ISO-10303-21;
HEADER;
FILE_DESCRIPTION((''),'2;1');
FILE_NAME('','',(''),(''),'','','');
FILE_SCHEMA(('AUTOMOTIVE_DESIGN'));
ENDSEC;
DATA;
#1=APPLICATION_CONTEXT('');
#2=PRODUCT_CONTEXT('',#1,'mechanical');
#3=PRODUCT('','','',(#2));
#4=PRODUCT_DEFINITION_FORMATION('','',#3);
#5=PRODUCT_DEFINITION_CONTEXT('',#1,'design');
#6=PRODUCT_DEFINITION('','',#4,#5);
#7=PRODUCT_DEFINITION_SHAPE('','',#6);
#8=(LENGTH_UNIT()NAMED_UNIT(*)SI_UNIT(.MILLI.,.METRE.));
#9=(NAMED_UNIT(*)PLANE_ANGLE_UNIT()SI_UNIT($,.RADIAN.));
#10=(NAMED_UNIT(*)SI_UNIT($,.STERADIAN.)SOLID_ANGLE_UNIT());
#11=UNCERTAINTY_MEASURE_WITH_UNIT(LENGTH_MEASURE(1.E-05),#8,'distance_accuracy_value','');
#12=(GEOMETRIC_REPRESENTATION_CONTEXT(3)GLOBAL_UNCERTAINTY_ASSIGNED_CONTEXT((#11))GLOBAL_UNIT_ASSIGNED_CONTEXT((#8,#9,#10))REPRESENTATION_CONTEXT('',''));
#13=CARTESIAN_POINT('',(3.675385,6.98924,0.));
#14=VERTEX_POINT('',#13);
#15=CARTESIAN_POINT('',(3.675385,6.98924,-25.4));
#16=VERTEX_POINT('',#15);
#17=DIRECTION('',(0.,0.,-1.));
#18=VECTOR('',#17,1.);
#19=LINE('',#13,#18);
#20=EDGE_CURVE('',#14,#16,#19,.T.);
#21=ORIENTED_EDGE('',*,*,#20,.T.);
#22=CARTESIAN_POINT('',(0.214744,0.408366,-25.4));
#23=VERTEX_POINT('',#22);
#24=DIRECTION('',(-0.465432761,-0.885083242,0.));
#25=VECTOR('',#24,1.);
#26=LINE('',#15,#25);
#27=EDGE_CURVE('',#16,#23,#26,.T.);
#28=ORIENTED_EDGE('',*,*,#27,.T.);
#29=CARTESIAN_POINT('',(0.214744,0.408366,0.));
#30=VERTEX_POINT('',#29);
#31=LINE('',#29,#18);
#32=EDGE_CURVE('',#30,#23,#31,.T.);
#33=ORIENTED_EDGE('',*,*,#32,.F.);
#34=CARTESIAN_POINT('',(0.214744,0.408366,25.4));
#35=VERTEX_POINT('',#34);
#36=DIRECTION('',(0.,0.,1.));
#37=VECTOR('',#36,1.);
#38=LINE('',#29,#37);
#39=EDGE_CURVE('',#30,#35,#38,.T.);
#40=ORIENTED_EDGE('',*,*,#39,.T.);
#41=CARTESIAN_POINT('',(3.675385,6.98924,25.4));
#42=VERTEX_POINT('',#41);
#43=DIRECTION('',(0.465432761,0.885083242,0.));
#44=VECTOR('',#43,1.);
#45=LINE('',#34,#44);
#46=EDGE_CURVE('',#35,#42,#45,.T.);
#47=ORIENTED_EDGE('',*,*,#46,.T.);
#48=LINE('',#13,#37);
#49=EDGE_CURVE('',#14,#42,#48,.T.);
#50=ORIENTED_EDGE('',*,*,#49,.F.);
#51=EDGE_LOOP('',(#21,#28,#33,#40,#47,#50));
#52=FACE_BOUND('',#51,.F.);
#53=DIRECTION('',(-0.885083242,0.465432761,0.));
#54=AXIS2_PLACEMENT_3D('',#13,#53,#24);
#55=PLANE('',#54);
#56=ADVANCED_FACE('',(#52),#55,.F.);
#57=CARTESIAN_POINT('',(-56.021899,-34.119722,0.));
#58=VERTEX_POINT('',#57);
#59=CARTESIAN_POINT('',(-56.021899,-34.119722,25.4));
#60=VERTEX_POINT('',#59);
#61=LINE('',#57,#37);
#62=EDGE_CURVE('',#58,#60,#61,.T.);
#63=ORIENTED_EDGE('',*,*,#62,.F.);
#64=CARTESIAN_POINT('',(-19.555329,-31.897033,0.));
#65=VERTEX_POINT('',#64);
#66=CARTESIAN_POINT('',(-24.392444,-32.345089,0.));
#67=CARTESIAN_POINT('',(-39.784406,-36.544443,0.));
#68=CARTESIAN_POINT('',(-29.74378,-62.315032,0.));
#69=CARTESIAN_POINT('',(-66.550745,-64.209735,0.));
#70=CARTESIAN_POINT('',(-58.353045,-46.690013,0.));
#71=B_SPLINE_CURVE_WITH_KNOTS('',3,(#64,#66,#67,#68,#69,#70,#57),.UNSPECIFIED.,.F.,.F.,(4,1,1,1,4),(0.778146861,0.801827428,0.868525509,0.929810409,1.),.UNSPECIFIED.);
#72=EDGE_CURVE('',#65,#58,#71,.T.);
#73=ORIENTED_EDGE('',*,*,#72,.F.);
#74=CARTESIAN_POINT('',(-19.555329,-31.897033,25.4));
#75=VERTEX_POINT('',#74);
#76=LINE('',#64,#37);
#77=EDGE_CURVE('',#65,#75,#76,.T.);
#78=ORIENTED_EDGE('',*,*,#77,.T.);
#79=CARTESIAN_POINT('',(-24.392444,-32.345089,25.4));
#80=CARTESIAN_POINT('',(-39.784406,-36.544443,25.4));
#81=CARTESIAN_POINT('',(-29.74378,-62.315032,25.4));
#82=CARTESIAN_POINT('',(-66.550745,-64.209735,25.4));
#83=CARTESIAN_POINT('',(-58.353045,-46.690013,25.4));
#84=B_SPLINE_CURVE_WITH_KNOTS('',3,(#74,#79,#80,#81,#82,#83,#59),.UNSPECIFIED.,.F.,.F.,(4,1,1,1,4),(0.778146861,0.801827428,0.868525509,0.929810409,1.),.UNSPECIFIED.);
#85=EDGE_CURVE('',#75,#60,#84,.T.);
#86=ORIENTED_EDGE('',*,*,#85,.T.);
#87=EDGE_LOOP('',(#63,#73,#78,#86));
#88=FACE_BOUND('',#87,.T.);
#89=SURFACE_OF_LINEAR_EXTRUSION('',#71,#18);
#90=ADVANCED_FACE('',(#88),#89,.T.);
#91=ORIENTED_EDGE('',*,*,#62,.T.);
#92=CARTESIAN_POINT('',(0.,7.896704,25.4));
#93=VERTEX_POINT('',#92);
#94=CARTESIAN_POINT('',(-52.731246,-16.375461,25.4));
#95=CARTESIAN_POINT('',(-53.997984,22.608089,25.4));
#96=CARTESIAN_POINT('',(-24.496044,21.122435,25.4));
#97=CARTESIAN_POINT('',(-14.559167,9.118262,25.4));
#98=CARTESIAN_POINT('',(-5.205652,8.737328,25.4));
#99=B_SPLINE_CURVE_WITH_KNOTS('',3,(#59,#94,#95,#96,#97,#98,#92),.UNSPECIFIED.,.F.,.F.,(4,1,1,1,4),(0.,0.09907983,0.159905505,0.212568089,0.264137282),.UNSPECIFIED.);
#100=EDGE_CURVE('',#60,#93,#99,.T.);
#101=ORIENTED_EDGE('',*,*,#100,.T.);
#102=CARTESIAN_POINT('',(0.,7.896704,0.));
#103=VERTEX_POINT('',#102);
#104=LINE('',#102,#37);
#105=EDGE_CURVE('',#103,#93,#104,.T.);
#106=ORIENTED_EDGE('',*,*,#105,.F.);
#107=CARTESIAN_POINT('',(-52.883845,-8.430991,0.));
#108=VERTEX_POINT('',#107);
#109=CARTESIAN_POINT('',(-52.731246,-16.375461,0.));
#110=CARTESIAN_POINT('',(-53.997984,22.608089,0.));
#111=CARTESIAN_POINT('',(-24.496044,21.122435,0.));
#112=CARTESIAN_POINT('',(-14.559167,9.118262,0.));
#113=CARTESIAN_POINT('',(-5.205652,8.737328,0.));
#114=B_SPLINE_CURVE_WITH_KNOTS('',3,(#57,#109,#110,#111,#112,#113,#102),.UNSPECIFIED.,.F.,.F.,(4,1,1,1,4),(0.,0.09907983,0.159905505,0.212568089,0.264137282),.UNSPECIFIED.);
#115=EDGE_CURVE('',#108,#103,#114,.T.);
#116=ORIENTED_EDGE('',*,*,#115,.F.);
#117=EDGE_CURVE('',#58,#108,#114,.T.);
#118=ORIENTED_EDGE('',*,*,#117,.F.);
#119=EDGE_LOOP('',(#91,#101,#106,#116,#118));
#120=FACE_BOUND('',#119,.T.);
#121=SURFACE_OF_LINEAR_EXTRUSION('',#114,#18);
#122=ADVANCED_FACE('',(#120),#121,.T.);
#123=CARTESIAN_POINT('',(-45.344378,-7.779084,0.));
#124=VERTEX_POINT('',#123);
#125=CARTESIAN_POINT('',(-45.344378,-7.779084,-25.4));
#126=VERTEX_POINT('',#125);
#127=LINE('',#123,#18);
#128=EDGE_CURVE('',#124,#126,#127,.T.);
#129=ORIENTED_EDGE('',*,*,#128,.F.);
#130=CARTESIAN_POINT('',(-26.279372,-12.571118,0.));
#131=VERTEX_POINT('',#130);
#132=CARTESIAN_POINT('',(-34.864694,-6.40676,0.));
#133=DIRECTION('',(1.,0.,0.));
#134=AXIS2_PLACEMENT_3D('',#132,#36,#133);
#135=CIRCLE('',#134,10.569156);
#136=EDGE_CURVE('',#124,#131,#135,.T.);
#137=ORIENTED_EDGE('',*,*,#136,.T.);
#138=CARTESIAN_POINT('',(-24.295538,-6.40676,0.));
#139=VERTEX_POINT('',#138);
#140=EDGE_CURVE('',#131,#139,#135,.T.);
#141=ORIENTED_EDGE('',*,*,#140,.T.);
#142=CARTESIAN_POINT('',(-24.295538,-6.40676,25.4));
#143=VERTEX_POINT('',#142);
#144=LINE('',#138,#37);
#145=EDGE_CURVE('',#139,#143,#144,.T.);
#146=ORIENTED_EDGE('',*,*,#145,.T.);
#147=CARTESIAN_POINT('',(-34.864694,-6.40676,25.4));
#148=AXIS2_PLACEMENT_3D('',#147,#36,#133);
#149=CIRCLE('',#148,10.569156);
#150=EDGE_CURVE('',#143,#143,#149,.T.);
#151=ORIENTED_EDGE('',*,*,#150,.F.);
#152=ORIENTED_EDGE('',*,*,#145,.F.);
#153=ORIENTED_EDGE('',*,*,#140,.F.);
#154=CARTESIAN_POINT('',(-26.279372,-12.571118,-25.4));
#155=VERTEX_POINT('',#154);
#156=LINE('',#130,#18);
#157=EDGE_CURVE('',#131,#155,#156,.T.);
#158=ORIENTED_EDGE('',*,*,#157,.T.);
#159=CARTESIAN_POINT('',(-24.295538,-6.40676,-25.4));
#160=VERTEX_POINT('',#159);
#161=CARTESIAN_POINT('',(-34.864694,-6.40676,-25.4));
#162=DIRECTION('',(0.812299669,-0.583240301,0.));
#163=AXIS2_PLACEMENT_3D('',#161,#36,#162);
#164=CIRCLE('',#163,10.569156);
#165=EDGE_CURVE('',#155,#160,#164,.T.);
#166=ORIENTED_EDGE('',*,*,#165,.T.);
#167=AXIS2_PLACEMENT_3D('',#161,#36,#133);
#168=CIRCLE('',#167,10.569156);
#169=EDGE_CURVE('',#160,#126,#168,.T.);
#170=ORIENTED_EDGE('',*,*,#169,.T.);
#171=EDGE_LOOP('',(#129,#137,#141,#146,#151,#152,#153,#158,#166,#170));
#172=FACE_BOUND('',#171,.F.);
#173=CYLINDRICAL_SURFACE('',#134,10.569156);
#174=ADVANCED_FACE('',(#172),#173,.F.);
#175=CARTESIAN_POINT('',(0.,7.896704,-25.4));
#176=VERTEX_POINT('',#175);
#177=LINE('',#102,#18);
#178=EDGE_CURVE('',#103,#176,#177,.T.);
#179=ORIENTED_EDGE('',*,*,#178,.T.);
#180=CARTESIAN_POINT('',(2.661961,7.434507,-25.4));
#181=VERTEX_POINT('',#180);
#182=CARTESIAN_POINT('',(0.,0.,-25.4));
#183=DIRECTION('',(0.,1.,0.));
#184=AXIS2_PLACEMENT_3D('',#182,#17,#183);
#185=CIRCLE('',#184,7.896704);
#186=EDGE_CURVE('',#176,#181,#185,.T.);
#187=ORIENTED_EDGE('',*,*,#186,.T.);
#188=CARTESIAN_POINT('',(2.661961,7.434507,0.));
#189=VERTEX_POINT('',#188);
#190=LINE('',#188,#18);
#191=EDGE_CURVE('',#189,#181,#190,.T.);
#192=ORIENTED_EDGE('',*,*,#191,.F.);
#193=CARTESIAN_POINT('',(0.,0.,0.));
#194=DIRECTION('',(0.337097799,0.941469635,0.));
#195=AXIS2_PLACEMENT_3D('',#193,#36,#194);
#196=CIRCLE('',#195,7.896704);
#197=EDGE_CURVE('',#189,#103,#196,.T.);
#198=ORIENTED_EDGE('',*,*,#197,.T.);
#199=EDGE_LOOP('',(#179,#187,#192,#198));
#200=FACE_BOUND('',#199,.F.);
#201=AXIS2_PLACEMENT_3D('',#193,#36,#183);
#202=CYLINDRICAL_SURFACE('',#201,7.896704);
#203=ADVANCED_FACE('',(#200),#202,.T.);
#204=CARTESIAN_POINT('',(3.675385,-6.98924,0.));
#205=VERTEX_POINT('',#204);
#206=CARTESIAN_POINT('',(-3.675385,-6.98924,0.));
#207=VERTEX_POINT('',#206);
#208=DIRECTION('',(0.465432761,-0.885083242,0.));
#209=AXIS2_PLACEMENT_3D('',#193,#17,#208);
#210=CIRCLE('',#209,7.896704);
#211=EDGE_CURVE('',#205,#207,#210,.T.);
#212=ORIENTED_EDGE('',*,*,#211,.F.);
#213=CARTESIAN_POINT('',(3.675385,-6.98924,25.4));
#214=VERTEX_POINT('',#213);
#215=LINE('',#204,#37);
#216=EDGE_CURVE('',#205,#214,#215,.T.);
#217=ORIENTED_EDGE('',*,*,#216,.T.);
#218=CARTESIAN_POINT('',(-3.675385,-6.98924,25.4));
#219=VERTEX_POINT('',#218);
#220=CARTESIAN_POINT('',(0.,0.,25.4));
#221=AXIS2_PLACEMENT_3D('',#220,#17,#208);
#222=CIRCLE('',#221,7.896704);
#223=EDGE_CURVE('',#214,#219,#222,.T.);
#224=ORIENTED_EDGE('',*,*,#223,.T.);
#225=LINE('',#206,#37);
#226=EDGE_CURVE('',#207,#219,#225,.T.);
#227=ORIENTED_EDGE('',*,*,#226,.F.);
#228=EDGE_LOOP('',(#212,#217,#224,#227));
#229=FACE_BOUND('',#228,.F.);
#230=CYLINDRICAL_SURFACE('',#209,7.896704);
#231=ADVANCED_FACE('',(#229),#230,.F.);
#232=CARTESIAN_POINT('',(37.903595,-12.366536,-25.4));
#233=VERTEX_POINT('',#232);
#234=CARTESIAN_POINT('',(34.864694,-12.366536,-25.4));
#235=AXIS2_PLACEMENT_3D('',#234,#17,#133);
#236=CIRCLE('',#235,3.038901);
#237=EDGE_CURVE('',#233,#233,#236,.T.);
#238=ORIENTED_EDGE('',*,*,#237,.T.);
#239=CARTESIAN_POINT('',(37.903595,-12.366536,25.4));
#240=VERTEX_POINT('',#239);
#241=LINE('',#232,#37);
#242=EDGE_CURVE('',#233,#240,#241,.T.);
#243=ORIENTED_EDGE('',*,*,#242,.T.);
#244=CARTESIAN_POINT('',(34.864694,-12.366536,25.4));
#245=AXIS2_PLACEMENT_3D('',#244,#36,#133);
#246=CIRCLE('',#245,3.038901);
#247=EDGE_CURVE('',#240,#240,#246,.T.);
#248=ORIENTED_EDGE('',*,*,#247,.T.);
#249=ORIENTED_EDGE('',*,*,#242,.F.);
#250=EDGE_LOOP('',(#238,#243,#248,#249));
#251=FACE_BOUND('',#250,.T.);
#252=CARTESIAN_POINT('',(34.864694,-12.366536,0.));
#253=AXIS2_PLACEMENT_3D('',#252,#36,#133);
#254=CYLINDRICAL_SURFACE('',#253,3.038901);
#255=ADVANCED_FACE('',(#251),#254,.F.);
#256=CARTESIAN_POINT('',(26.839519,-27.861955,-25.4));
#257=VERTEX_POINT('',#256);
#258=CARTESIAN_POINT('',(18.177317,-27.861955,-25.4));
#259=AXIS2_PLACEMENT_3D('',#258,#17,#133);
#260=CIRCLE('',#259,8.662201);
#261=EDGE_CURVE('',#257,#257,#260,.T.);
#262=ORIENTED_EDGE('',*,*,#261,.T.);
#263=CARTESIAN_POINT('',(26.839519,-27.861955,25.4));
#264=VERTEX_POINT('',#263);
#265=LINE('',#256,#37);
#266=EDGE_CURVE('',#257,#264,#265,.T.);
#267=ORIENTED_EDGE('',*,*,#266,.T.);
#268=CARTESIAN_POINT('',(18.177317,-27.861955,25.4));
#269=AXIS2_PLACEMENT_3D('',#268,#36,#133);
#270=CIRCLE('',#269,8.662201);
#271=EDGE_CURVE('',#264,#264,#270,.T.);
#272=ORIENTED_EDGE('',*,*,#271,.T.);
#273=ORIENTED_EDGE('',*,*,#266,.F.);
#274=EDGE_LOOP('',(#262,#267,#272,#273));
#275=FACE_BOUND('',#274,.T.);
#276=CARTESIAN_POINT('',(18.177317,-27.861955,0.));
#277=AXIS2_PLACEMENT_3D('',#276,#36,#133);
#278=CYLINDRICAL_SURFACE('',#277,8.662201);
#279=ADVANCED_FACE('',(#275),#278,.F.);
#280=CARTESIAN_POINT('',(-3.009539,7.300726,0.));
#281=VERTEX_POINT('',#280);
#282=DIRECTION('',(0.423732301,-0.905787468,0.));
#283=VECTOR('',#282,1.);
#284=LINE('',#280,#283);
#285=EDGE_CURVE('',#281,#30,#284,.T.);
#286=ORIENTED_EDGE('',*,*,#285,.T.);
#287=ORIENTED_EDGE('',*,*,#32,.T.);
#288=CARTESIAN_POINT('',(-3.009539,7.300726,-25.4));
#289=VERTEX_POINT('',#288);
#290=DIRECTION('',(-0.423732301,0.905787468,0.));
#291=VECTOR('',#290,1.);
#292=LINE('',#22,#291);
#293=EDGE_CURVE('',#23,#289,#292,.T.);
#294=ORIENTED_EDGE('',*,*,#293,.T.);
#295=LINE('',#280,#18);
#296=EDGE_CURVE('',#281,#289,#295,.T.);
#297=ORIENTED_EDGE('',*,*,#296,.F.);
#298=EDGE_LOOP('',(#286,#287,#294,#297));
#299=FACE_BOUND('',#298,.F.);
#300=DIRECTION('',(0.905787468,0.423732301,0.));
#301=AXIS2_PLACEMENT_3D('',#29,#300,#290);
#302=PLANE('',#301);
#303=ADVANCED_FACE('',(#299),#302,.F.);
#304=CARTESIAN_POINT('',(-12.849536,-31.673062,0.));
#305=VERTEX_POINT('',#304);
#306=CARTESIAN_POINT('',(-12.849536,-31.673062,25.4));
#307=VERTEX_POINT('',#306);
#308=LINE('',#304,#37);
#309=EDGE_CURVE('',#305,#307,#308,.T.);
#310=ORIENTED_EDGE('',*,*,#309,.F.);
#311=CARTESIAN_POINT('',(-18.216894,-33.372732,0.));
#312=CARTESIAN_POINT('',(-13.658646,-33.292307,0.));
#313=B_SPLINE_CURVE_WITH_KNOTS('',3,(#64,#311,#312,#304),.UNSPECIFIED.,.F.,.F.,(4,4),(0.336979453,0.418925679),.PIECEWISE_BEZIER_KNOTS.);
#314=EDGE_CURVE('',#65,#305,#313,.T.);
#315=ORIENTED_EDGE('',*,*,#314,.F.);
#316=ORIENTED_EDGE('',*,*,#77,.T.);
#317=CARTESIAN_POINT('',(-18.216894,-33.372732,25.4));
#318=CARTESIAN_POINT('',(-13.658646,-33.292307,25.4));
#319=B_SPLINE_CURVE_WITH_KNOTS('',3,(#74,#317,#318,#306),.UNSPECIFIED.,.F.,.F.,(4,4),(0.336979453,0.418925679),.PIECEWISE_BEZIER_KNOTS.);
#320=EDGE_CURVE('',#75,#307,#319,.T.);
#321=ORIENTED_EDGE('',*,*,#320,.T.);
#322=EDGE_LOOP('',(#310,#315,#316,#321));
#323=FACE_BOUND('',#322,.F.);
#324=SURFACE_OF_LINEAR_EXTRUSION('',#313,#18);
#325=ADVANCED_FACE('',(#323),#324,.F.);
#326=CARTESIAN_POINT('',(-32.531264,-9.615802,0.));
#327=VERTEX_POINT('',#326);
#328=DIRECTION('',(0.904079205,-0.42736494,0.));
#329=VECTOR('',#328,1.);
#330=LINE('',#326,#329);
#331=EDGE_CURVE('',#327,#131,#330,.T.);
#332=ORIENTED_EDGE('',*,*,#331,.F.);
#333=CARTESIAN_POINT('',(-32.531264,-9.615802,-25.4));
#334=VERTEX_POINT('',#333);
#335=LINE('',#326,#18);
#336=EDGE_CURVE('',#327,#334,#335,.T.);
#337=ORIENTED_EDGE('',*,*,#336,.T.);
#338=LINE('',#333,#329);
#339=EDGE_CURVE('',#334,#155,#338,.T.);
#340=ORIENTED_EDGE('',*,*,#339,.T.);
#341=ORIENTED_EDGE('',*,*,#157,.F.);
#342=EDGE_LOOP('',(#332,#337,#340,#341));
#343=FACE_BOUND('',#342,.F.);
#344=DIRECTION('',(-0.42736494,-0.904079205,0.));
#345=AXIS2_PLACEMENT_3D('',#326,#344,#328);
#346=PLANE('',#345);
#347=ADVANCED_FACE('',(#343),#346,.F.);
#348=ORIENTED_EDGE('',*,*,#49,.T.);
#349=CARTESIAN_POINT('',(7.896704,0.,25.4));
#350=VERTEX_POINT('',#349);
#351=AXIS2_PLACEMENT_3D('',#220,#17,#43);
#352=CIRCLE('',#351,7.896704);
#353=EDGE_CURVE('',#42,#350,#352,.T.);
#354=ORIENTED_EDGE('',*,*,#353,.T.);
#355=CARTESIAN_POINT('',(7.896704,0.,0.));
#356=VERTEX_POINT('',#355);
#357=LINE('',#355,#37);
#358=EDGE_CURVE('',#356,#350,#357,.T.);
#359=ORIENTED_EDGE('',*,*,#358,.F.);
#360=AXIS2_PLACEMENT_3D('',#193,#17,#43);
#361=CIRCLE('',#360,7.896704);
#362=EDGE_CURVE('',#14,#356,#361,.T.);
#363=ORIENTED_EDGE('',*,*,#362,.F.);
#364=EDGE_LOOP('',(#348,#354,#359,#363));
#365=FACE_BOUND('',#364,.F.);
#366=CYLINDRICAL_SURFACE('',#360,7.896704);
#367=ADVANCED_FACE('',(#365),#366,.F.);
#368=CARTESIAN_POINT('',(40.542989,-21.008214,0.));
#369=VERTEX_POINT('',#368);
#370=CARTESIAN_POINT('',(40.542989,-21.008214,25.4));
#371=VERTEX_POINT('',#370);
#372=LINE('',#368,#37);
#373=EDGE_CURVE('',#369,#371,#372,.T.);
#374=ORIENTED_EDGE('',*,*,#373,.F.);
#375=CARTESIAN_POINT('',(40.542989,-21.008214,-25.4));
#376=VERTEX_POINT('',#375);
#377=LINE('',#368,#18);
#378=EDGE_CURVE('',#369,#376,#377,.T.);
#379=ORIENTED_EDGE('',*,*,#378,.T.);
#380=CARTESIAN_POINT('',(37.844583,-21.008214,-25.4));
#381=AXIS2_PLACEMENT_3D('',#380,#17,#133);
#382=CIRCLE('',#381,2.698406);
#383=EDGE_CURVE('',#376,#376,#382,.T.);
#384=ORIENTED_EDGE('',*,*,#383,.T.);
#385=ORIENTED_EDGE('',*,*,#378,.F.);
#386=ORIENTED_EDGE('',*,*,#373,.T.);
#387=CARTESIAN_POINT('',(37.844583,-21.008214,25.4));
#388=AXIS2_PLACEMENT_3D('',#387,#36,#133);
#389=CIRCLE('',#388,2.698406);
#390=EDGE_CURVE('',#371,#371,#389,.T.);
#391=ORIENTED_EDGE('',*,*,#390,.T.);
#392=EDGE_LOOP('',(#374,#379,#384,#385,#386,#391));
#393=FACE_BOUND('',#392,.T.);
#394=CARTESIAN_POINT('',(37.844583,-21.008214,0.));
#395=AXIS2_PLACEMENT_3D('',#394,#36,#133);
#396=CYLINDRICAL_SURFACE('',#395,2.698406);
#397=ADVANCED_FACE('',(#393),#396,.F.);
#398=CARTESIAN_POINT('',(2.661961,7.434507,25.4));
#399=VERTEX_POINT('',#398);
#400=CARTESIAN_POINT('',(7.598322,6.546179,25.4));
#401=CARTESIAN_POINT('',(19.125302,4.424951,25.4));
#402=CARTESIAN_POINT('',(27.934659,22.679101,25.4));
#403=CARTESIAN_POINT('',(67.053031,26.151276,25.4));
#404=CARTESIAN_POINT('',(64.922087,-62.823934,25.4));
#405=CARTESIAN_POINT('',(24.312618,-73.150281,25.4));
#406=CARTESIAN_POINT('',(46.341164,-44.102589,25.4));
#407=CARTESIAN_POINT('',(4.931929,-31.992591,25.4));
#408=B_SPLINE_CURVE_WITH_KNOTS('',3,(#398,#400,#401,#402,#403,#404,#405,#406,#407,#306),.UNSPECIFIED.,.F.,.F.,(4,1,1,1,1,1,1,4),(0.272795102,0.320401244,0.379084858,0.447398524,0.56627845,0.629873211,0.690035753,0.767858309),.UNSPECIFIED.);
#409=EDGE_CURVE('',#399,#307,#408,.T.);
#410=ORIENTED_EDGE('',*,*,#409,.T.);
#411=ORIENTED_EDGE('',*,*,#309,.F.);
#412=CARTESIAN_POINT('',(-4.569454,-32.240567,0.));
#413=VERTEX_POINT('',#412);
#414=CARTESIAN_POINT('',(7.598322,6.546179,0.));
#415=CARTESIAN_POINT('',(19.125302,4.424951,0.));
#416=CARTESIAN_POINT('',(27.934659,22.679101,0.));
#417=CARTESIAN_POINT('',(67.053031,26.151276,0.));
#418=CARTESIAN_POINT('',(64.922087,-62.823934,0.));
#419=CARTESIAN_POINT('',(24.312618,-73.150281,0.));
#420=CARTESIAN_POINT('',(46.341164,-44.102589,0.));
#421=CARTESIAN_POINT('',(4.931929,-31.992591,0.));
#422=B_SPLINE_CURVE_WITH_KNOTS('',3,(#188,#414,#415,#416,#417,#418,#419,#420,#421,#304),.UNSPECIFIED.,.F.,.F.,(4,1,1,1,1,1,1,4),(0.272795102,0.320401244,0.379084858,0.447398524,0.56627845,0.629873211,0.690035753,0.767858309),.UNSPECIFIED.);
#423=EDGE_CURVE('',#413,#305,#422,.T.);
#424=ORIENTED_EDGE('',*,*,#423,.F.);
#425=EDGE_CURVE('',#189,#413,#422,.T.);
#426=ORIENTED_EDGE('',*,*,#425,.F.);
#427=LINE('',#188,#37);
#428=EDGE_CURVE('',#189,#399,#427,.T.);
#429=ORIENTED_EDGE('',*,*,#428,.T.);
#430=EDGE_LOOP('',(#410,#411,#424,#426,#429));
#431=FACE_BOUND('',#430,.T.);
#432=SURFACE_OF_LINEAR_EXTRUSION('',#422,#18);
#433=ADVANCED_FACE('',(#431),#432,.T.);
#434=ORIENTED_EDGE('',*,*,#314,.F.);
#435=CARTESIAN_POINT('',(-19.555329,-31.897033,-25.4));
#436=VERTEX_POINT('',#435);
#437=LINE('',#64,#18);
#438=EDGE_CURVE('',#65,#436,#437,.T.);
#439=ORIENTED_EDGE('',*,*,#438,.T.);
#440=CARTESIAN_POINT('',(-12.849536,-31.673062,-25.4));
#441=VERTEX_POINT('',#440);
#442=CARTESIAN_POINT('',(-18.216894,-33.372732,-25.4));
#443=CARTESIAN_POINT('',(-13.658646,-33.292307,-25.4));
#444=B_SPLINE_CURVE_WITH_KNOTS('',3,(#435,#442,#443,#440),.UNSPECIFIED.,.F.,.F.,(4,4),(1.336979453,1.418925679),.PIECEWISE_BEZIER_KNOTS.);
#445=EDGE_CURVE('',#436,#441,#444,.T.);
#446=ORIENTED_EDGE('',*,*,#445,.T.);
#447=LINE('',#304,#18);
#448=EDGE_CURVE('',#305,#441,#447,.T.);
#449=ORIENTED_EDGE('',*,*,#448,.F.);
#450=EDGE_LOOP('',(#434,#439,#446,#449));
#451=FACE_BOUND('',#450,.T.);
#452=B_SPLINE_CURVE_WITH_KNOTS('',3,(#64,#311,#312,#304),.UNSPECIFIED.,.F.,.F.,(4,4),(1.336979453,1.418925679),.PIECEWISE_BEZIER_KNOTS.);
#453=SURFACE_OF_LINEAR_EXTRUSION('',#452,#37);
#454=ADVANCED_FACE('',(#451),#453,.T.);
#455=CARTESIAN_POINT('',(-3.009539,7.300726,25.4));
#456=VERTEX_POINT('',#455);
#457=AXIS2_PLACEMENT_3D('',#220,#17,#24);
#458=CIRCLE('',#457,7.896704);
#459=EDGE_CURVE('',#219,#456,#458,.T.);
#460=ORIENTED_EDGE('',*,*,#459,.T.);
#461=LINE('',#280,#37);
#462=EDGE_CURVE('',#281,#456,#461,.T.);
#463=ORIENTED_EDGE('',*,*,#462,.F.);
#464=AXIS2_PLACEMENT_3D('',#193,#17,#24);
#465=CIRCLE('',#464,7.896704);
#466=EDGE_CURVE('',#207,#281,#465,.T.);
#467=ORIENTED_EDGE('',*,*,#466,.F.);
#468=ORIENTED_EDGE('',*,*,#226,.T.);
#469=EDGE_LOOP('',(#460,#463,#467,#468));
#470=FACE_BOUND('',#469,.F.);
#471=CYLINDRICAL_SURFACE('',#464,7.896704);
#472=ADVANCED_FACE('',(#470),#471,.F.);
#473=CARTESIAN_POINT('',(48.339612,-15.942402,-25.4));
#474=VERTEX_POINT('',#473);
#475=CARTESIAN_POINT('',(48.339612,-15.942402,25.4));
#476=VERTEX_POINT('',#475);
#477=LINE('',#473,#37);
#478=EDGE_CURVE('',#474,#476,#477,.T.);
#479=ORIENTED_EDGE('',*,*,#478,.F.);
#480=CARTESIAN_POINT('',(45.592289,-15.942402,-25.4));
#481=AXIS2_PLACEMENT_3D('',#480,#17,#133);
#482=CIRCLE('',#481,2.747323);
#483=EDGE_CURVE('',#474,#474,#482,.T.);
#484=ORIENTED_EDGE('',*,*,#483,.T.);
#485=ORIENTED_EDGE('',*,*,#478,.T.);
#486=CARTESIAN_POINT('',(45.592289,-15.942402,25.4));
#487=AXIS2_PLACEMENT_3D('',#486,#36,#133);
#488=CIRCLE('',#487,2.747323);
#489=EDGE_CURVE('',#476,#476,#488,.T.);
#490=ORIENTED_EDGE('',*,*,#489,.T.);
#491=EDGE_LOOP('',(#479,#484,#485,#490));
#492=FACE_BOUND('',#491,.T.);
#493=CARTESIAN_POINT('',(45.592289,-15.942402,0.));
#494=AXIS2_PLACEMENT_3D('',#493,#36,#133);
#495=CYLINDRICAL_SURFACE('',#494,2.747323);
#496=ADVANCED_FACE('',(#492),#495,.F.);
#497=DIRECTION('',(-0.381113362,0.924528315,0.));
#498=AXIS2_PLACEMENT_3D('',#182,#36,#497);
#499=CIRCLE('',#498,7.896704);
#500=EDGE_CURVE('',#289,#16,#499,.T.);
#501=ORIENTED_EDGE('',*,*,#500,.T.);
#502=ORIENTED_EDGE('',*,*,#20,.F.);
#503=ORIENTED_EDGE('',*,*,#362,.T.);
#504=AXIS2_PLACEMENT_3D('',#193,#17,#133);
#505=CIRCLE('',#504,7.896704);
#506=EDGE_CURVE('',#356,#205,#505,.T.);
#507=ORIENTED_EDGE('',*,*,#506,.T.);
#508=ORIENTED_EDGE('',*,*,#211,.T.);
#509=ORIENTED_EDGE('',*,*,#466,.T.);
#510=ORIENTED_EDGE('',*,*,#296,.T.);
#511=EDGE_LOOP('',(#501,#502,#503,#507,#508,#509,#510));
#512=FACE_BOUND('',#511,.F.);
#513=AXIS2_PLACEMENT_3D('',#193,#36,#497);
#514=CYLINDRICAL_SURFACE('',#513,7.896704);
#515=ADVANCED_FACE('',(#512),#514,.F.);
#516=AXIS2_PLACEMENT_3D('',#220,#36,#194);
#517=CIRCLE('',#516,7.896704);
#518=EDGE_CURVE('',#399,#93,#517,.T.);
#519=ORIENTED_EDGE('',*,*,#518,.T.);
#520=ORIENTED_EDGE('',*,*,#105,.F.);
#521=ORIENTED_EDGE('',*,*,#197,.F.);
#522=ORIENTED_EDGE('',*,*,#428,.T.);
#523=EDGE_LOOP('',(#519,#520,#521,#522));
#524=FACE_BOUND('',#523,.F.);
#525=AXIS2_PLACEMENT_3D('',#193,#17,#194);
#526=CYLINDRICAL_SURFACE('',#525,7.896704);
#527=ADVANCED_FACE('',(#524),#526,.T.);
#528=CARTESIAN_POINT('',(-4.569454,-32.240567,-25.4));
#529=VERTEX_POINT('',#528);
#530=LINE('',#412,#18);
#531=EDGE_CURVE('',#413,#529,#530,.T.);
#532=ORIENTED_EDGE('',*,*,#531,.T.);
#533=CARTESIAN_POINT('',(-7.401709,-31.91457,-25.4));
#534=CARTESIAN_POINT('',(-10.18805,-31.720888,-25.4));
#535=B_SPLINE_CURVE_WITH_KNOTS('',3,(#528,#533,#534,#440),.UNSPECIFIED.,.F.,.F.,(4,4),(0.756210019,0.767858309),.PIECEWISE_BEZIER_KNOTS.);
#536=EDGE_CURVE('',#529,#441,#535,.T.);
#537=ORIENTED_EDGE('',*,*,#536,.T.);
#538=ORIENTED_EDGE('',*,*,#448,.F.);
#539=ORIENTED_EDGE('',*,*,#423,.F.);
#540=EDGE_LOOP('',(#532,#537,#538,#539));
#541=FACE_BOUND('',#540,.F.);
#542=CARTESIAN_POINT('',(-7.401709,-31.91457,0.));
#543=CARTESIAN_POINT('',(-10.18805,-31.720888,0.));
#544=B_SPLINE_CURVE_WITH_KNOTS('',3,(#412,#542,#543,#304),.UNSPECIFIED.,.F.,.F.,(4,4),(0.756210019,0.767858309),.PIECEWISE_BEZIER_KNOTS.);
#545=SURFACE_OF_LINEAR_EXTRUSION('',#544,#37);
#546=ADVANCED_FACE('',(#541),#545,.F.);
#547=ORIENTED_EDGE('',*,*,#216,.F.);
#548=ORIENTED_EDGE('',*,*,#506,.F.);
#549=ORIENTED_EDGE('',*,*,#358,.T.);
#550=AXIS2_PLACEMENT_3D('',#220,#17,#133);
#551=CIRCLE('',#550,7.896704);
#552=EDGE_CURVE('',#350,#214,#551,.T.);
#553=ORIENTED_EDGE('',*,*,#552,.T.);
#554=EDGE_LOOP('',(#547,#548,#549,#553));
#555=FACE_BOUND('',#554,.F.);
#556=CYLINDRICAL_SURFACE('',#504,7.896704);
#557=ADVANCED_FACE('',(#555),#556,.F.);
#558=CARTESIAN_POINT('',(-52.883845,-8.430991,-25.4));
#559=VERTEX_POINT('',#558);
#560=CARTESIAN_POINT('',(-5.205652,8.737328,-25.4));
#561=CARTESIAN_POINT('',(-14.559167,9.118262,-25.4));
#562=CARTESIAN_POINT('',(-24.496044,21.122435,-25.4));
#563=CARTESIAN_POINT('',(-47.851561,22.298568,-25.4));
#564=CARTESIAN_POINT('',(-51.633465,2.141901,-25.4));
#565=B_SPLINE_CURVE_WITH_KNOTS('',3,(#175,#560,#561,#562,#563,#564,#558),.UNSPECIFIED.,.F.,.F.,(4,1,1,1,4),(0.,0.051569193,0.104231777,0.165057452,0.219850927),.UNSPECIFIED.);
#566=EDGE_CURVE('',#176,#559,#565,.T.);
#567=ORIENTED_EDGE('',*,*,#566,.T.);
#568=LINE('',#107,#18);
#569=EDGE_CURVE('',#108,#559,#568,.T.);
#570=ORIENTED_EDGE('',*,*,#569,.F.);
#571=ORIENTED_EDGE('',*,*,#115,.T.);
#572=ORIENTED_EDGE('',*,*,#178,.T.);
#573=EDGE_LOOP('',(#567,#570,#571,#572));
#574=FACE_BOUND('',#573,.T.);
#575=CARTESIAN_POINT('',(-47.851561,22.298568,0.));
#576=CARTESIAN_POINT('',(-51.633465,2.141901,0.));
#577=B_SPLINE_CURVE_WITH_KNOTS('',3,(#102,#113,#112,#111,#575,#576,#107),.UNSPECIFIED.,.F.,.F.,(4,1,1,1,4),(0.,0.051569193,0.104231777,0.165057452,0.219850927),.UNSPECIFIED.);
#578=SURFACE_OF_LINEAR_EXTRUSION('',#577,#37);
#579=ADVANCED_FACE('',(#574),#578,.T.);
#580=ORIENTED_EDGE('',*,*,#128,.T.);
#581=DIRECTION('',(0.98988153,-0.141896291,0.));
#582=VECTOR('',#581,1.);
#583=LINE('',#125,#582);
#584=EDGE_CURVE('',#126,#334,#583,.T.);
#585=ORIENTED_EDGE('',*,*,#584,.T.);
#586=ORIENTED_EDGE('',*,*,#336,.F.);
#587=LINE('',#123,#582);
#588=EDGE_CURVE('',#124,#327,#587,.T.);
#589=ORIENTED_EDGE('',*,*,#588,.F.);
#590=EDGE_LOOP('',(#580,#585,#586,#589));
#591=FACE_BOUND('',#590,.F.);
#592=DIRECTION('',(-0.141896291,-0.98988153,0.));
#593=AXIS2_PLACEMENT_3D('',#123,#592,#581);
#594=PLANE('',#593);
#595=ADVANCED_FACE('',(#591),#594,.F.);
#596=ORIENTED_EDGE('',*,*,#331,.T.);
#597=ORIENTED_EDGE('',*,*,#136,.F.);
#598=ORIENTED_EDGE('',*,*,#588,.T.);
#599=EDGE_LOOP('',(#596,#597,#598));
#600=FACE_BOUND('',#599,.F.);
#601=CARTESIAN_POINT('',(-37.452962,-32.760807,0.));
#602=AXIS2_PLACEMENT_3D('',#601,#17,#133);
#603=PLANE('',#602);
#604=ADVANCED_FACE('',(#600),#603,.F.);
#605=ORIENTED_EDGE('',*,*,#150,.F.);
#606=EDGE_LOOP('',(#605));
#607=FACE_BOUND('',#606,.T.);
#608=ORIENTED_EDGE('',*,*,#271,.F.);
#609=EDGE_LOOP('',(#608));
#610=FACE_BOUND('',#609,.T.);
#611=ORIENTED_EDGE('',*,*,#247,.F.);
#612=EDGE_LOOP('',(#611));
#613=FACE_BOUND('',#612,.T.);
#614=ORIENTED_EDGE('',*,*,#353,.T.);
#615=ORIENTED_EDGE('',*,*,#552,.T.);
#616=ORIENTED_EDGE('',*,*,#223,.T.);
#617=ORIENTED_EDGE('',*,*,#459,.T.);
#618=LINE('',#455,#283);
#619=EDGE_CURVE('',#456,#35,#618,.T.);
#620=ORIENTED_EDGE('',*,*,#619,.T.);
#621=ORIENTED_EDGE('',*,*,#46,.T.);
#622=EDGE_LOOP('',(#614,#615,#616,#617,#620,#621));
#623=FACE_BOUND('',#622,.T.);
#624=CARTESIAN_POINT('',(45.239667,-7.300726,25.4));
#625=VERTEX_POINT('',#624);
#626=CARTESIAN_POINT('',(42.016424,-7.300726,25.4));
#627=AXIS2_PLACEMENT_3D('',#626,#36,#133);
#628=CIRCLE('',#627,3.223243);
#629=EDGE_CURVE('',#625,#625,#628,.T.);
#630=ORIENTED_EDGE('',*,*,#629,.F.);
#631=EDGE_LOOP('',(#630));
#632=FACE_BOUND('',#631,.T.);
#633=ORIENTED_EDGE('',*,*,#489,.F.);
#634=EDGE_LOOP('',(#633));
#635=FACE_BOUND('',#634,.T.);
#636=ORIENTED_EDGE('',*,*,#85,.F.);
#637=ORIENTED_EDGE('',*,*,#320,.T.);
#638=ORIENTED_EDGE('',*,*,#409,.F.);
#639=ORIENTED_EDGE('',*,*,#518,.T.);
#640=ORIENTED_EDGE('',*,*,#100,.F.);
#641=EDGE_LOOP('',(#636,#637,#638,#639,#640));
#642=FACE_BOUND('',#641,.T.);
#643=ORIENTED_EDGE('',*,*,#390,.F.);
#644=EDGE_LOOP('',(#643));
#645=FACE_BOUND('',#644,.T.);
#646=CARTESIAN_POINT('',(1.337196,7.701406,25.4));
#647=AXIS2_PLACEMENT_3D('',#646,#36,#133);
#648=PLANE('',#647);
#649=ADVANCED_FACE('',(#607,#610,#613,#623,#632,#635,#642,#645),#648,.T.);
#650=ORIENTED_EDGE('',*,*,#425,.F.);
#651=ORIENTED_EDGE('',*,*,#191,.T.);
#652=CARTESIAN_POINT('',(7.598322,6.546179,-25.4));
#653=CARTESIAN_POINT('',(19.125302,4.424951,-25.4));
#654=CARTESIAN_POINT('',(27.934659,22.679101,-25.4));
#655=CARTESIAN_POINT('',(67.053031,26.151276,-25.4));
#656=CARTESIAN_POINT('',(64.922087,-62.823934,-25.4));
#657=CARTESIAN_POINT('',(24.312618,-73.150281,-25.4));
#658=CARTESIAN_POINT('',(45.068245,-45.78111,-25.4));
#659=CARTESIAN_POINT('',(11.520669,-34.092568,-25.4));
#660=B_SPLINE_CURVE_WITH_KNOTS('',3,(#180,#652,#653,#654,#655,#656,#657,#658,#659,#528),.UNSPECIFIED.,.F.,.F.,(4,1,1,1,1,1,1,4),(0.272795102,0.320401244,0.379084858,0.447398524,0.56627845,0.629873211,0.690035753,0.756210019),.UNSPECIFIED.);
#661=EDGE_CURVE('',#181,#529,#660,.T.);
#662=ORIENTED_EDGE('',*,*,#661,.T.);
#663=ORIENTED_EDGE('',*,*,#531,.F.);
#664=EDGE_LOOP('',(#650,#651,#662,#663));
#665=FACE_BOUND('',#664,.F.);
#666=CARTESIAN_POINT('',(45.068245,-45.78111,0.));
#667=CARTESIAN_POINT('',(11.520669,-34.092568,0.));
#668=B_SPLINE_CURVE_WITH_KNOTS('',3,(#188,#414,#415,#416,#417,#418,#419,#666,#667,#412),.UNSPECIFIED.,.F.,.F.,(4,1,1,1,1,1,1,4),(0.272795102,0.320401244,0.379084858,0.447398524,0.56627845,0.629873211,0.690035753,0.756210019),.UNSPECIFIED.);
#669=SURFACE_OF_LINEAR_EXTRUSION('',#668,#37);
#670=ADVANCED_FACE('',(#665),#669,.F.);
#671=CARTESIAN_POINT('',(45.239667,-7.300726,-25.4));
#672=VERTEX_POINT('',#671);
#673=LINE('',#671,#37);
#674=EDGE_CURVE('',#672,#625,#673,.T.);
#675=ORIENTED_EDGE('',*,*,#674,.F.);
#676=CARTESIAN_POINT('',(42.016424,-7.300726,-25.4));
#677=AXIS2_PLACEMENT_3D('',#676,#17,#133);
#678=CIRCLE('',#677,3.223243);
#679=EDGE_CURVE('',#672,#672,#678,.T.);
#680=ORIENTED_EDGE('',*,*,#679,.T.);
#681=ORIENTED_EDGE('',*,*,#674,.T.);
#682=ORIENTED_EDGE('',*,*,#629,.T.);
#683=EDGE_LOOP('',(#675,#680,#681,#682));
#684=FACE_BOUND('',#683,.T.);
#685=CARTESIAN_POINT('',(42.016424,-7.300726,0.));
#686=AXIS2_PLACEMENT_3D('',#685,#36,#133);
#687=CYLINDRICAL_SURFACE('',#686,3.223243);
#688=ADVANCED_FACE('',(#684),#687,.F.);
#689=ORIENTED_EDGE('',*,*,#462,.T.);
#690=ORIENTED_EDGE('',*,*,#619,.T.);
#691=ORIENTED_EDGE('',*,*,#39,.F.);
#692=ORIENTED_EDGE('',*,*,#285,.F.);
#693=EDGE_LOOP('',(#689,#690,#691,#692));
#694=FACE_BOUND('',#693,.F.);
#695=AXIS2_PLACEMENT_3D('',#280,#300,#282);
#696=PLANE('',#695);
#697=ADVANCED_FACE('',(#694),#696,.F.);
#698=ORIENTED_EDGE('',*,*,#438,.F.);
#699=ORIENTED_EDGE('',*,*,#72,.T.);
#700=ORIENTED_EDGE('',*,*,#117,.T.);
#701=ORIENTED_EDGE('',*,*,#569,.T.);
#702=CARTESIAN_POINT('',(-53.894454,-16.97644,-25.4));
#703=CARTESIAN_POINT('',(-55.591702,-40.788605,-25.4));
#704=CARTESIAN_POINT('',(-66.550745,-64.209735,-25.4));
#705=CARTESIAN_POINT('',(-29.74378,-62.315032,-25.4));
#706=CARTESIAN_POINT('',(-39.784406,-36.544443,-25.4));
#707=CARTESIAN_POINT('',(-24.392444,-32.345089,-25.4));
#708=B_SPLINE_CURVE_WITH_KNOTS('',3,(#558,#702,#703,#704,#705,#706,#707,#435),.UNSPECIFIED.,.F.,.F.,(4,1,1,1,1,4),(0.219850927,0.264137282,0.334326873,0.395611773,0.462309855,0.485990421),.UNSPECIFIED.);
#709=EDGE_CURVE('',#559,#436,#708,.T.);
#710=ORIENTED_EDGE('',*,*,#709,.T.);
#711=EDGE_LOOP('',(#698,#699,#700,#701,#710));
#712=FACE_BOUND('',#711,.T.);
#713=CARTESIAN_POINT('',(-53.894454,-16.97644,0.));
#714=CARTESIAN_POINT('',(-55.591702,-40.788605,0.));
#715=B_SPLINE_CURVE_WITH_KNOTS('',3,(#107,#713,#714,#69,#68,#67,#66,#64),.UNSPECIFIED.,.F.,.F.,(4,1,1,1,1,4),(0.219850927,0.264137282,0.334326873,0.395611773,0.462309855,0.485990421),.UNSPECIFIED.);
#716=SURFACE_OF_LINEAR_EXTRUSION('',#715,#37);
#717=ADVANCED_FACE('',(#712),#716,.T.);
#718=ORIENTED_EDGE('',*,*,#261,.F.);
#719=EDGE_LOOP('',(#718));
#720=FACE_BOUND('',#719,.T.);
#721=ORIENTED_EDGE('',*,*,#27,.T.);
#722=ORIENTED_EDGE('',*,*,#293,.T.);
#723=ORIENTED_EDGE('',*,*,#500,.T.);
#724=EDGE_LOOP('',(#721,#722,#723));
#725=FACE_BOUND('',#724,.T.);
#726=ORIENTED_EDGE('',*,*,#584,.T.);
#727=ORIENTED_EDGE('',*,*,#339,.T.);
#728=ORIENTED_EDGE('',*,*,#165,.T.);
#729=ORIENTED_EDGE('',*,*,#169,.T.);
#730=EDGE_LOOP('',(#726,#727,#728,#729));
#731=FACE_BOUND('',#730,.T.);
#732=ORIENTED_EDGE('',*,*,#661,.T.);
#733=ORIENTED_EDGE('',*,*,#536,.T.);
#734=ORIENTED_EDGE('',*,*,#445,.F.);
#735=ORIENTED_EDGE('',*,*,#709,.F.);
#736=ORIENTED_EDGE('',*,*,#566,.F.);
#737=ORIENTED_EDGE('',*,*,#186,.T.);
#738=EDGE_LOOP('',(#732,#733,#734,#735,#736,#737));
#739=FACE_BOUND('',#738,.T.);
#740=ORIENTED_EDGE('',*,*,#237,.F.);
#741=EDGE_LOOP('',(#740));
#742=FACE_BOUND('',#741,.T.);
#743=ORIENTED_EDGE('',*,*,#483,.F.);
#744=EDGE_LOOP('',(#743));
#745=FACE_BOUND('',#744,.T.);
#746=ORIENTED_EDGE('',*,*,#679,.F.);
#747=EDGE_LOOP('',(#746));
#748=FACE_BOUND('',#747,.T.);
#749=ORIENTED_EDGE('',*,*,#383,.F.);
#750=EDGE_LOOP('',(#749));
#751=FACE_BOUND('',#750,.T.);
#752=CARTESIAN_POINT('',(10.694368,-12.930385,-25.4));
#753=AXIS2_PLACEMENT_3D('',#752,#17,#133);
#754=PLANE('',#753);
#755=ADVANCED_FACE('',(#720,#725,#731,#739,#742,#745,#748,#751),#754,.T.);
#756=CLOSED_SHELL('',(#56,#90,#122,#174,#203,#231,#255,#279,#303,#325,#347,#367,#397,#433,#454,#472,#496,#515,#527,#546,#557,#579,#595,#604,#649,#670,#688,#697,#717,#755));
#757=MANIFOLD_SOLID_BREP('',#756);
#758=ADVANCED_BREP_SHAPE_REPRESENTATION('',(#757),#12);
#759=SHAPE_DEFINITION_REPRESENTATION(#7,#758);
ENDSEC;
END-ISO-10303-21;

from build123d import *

# Parameters (mm, degrees)
F0_R        = 8.662201363
F0_R_2      = 10.5691561384
F0_R_3      = 2.6984055017
F0_R_4      = 3.0389014198
F0_R_5      = 2.7473225855
F0_R_6      = 3.2232427352
F1_DEPTH    = 25.4
F3_DEPTH    = 25.4
F1_FACE_R   = 8.662201363
F1_FACE_R_2 = 2.6984055017
F1_FACE_R_3 = 2.7473225855
F1_FACE_R_4 = 3.0389014198
F1_FACE_R_5 = 3.2232427352
F4_DEPTH    = 25.4


with BuildPart() as f1:
    # F0 (on Top) → F1 (new body)
    with BuildSketch(Plane.XY):
        with BuildLine():
            ThreePointArc((2.6619614286, 7.4345067202), (1.3508945801, 7.7802964373), (0, 7.8967036679))
            add(Edge.make_bspline(
                [(0, 7.8967036679), (0.8739635903, 7.7555733186), (1.7642174923, 7.5960611727), (2.6619614286, 7.4345067202)],
                knots=[0.2641372822, 0.2641372822, 0.2641372822, 0.2641372822, 0.2727951023, 0.2727951023, 0.2727951023, 0.2727951023], degree=3))
        make_face()
        with BuildLine():
            add(Edge.make_bspline(
                [(-12.8495357692, -31.6730619381), (-15.2003391192, -31.6308184782), (-17.4537357319, -31.7023656235), (-19.5553285833, -31.8970333649)],
                knots=[0.7678583091, 0.7678583091, 0.7678583091, 0.7678583091, 0.7781468609, 0.7781468609, 0.7781468609, 0.7781468609], degree=3))
            add(Edge.make_bspline(
                [(-19.5553285781, -31.8970333645), (-18.2168939856, -33.3727319686), (-13.6586464223, -33.2923071287), (-12.8495357644, -31.6730619382)],
                knots=[0.336979453, 0.336979453, 0.336979453, 0.336979453, 0.4189256786, 0.4189256786, 0.4189256786, 0.4189256786], degree=3))
        make_face()
        with BuildLine():
            add(Edge.make_bspline(
                [(-20.5612294376, -23.0941344053), (-21.4794909722, -24.5031640961), (-33.6910205727, -19.461421147), (-32.0417244255, -29.0365306226), (-17.9951315905, -25.0315154696), (-20.6451305642, -30.6954660419), (-19.5553285781, -31.8970333645)],
                knots=[0, 0, 0, 0, 0.1051236694, 0.1677554096, 0.2702558641, 0.336979453, 0.336979453, 0.336979453, 0.336979453], degree=3))
            add(Edge.make_bspline(
                [(-12.8495357692, -31.6730619381), (-15.2003391192, -31.6308184782), (-17.4537357319, -31.7023656235), (-19.5553285833, -31.8970333649)],
                knots=[0.7678583091, 0.7678583091, 0.7678583091, 0.7678583091, 0.7781468609, 0.7781468609, 0.7781468609, 0.7781468609], degree=3))
            add(Edge.make_bspline(
                [(-12.8495357644, -31.6730619382), (-12.2134252392, -30.4000359331), (-16.055868286, -25.3166022998), (-4.9648169652, -30.2709619485), (-4.5248554697, -19.7618954567), (-16.6055231765, -24.991289651), (-9.6030406944, -13.17537676), (-29.3909363547, -11.4847774091), (-19.7257300953, -21.812099456), (-20.5612294376, -23.0941344053)],
                knots=[0.4189256786, 0.4189256786, 0.4189256786, 0.4189256786, 0.4833505581, 0.5661727466, 0.6374387628, 0.7220789736, 0.8049402809, 0.9043510445, 1, 1, 1, 1], degree=3))
        make_face()
        with BuildLine():
            add(Edge.make_bspline(
                [(0, 7.8967036679), (0.8739635903, 7.7555733186), (1.7642174923, 7.5960611727), (2.6619614286, 7.4345067202)],
                knots=[0.2641372822, 0.2641372822, 0.2641372822, 0.2641372822, 0.2727951023, 0.2727951023, 0.2727951023, 0.2727951023], degree=3))
            ThreePointArc((0, 7.8967036679), (-1.5339911907, 7.746276515), (-3.0095392797, 7.3007261381))
            Line((-3.0095392797, 7.3007261381), (0.2147444548, 0.4083655772))
            Line((0.2147444548, 0.4083655772), (3.6753845925, 6.9892400815))
            ThreePointArc((3.6753845925, 6.9892400815), (3.176484573, 7.229652452), (2.6619614286, 7.4345067202))
        make_face()
        with BuildLine():
            add(Edge.make_bspline(
                [(-56.0218989849, -34.1197215021), (-52.7312458579, -16.3754611509), (-53.9979835196, 22.6080890667), (-24.4960441742, 21.1224346107), (-14.5591666686, 9.1182619902), (-5.2056518054, 8.737328456), (0, 7.8967036679)],
                knots=[0, 0, 0, 0, 0.0990798299, 0.1599055051, 0.2125680893, 0.2641372822, 0.2641372822, 0.2641372822, 0.2641372822], degree=3))
            add(Edge.make_bspline(
                [(-19.5553285833, -31.8970333649), (-24.3924436753, -32.3450888811), (-39.78440629, -36.5444427943), (-29.7437802898, -62.3150320148), (-66.5507445031, -64.209735428), (-58.3530454719, -46.6900133516), (-56.0218989849, -34.1197215021)],
                knots=[0.7781468609, 0.7781468609, 0.7781468609, 0.7781468609, 0.8018274275, 0.8685255091, 0.9298104089, 1, 1, 1, 1], degree=3))
            add(Edge.make_bspline(
                [(-20.5612294376, -23.0941344053), (-21.4794909722, -24.5031640961), (-33.6910205727, -19.461421147), (-32.0417244255, -29.0365306226), (-17.9951315905, -25.0315154696), (-20.6451305642, -30.6954660419), (-19.5553285781, -31.8970333645)],
                knots=[0, 0, 0, 0, 0.1051236694, 0.1677554096, 0.2702558641, 0.336979453, 0.336979453, 0.336979453, 0.336979453], degree=3))
            add(Edge.make_bspline(
                [(-12.8495357644, -31.6730619382), (-12.2134252392, -30.4000359331), (-16.055868286, -25.3166022998), (-4.9648169652, -30.2709619485), (-4.5248554697, -19.7618954567), (-16.6055231765, -24.991289651), (-9.6030406944, -13.17537676), (-29.3909363547, -11.4847774091), (-19.7257300953, -21.812099456), (-20.5612294376, -23.0941344053)],
                knots=[0.4189256786, 0.4189256786, 0.4189256786, 0.4189256786, 0.4833505581, 0.5661727466, 0.6374387628, 0.7220789736, 0.8049402809, 0.9043510445, 1, 1, 1, 1], degree=3))
            add(Edge.make_bspline(
                [(2.6619614286, 7.4345067202), (7.5983224122, 6.5461786969), (19.1253023931, 4.424951293), (27.9346587377, 22.6791014065), (67.0530313994, 26.1512760888), (64.9220870413, -62.8239339374), (24.3126179916, -73.1502813819), (46.3411638863, -44.1025890995), (4.931929263, -31.9925912623), (-12.8495357692, -31.6730619381)],
                knots=[0.2727951023, 0.2727951023, 0.2727951023, 0.2727951023, 0.3204012444, 0.3790848583, 0.4473985241, 0.5662784499, 0.6298732105, 0.6900357534, 0.7678583091, 0.7678583091, 0.7678583091, 0.7678583091], degree=3))
            ThreePointArc((2.6619614286, 7.4345067202), (3.176484573, 7.229652452), (3.6753845925, 6.9892400815))
            ThreePointArc((3.6753845925, 6.9892400815), (6.7594878435, 4.0825547043), (7.8967036679, 0))
            ThreePointArc((7.8967036679, 0), (6.7594878435, -4.0825547043), (3.6753845925, -6.9892400815))
            ThreePointArc((3.6753845925, -6.9892400815), (0, -7.8967036679), (-3.6753845925, -6.9892400815))
            ThreePointArc((-3.6753845925, -6.9892400815), (-7.8881452467, 0.3675505217), (-3.0095392797, 7.3007261381))
            ThreePointArc((-3.0095392797, 7.3007261381), (-1.5339911907, 7.746276515), (0, 7.8967036679))
        make_face()
        with Locations((18.1773174554, -27.8619546443)):
            Circle(F0_R, mode=Mode.SUBTRACT)
        with Locations((-34.8646938801, -6.4067598432)):
            Circle(F0_R_2, mode=Mode.SUBTRACT)
        with Locations((37.8445833921, -21.008213982)):
            Circle(F0_R_3, mode=Mode.SUBTRACT)
        with Locations((34.8646938801, -12.3665360734)):
            Circle(F0_R_4, mode=Mode.SUBTRACT)
        with Locations((45.592289418, -15.942402184)):
            Circle(F0_R_5, mode=Mode.SUBTRACT)
        with Locations((42.0164242387, -7.3007261381)):
            Circle(F0_R_6, mode=Mode.SUBTRACT)
    extrude(amount=F1_DEPTH)

    # F2 (on face) → F3 (join)
    with BuildSketch(Plane(origin=(0, 0, 0), x_dir=(1, 0, 0), z_dir=(0, 0, -1))):
        with BuildLine():
            Line((-8.30411213, 25.8785167806), (-4.5694535774, 32.2405673817))
            add(Edge.make_bspline(
                [(-4.5694535773, 32.2405673817), (-7.4017087737, 31.9145699772), (-10.1880496104, 31.7208883052), (-12.8495357692, 31.6730619381)],
                knots=[0.7562100195, 0.7562100195, 0.7562100195, 0.7562100195, 0.7678583091, 0.7678583091, 0.7678583091, 0.7678583091], degree=3))
            add(Edge.make_bspline(
                [(-19.5553285781, 31.8970333645), (-18.2168939856, 33.3727319686), (-13.6586464223, 33.2923071287), (-12.8495357644, 31.6730619382)],
                knots=[1.336979453, 1.336979453, 1.336979453, 1.336979453, 1.4189256786, 1.4189256786, 1.4189256786, 1.4189256786], degree=3))
            add(Edge.make_bspline(
                [(-52.8838453637, 8.4309911764), (-53.8944542302, 16.9764404054), (-55.5917021064, 40.788605147), (-66.5507445031, 64.209735428), (-29.7437802898, 62.3150320148), (-39.78440629, 36.5444427943), (-24.3924436753, 32.3450888811), (-19.5553285833, 31.8970333649)],
                knots=[0.2198509267, 0.2198509267, 0.2198509267, 0.2198509267, 0.2641372822, 0.3343268733, 0.3956117731, 0.4623098547, 0.4859904212, 0.4859904212, 0.4859904212, 0.4859904212], degree=3))
            Line((-52.8838453637, 8.4309911764), (-47.1364098889, 7.5222018516))
            Line((-47.1364098889, 7.5222018516), (-45.3443784489, 7.7790837181))
            ThreePointArc((-45.3443784489, 7.7790837181), (-37.4411351562, 16.6570774885), (-26.2793718503, 12.5711176463))
            Line((-26.2793718503, 12.5711176463), (-19.1920831027, 15.9213315597))
            Line((-19.1920831027, 15.9213315597), (-8.30411213, 25.8785167806))
        make_face()
        with BuildLine():
            Line((-32.5312639409, 9.6158019236), (-26.2793718503, 12.5711176463))
            ThreePointArc((-26.2793718503, 12.5711176463), (-37.4411351562, 16.6570774885), (-45.3443784489, 7.7790837181))
            Line((-45.3443784489, 7.7790837181), (-32.5312639409, 9.6158019236))
        make_face()
    extrude(amount=F3_DEPTH)

    # F1_face (on face) → F4 (join)
    with BuildSketch(Plane(origin=(5.9823666719, -18.1132282803, 0), x_dir=(1, 0, 0), z_dir=(0, 0, -1))):
        with BuildLine():
            add(Edge.make_bspline(
                [(-3.3204052433, -25.5477350004), (1.6159557403, -24.6594069772), (13.1429357212, -22.5381795733), (21.9522920659, -40.7923296868), (61.0706647275, -44.2645043691), (58.9397203694, 44.7107056572), (18.3302513197, 55.0370531016), (39.0858779665, 27.6678813531), (5.5383024037, 15.9793396662), (-10.5518202492, 14.1273391014)],
                knots=[0.2727951023, 0.2727951023, 0.2727951023, 0.2727951023, 0.3204012444, 0.3790848583, 0.4473985241, 0.5662784499, 0.6298732105, 0.6900357534, 0.7562100195, 0.7562100195, 0.7562100195, 0.7562100195], degree=3))
            Line((-10.5518202492, 14.1273391014), (-14.2864788019, 7.7652885003))
            Line((-14.2864788019, 7.7652885003), (-25.1744497746, -2.1918967205))
            Line((-25.1744497746, -2.1918967205), (-32.2617385222, -5.542110634))
            ThreePointArc((-32.2617385222, -5.542110634), (-30.7860797223, -8.4686101598), (-30.2779044135, -11.706468437))
            ThreePointArc((-30.2779044135, -11.706468437), (-41.5346792653, -22.2532329638), (-51.3267451207, -10.3341445621))
            Line((-51.3267451207, -10.3341445621), (-53.1187765608, -10.5910264287))
            Line((-53.1187765608, -10.5910264287), (-58.8662120356, -9.6822371039))
            add(Edge.make_bspline(
                [(-5.9823666719, -26.0099319482), (-11.1880184773, -26.8505567363), (-20.5415333405, -27.2314902705), (-30.4784108461, -39.235662891), (-53.8339272884, -40.4117966586), (-57.6158320812, -20.2551291203), (-58.8662120356, -9.6822371039)],
                knots=[0, 0, 0, 0, 0.0515691928, 0.104231777, 0.1650574522, 0.2198509267, 0.2198509267, 0.2198509267, 0.2198509267], degree=3))
            ThreePointArc((-5.9823666719, -26.0099319482), (-4.6314720918, -25.8935247176), (-3.3204052433, -25.5477350004))
        make_face()
        with Locations((12.1949507835, 9.748726364)):
            Circle(F1_FACE_R, mode=Mode.SUBTRACT)
        with Locations((31.8622167203, 2.8949857017)):
            Circle(F1_FACE_R_2, mode=Mode.SUBTRACT)
        with Locations((39.6099227461, -2.1708260963)):
            Circle(F1_FACE_R_3, mode=Mode.SUBTRACT)
        with BuildLine():
            Line((-5.7676222171, -18.5215938575), (-8.9919059516, -25.4139544183))
            ThreePointArc((-8.9919059516, -25.4139544183), (-6.3499171936, -10.2250830336), (-2.3069820794, -25.1024683618))
            Line((-2.3069820794, -25.1024683618), (-5.7676222171, -18.5215938575))
        make_face(mode=Mode.SUBTRACT)
        with Locations((28.8823272082, -5.7466922069)):
            Circle(F1_FACE_R_4, mode=Mode.SUBTRACT)
        with Locations((36.0340575668, -10.8125021422)):
            Circle(F1_FACE_R_5, mode=Mode.SUBTRACT)
    extrude(amount=F4_DEPTH)


solid = f1.part
